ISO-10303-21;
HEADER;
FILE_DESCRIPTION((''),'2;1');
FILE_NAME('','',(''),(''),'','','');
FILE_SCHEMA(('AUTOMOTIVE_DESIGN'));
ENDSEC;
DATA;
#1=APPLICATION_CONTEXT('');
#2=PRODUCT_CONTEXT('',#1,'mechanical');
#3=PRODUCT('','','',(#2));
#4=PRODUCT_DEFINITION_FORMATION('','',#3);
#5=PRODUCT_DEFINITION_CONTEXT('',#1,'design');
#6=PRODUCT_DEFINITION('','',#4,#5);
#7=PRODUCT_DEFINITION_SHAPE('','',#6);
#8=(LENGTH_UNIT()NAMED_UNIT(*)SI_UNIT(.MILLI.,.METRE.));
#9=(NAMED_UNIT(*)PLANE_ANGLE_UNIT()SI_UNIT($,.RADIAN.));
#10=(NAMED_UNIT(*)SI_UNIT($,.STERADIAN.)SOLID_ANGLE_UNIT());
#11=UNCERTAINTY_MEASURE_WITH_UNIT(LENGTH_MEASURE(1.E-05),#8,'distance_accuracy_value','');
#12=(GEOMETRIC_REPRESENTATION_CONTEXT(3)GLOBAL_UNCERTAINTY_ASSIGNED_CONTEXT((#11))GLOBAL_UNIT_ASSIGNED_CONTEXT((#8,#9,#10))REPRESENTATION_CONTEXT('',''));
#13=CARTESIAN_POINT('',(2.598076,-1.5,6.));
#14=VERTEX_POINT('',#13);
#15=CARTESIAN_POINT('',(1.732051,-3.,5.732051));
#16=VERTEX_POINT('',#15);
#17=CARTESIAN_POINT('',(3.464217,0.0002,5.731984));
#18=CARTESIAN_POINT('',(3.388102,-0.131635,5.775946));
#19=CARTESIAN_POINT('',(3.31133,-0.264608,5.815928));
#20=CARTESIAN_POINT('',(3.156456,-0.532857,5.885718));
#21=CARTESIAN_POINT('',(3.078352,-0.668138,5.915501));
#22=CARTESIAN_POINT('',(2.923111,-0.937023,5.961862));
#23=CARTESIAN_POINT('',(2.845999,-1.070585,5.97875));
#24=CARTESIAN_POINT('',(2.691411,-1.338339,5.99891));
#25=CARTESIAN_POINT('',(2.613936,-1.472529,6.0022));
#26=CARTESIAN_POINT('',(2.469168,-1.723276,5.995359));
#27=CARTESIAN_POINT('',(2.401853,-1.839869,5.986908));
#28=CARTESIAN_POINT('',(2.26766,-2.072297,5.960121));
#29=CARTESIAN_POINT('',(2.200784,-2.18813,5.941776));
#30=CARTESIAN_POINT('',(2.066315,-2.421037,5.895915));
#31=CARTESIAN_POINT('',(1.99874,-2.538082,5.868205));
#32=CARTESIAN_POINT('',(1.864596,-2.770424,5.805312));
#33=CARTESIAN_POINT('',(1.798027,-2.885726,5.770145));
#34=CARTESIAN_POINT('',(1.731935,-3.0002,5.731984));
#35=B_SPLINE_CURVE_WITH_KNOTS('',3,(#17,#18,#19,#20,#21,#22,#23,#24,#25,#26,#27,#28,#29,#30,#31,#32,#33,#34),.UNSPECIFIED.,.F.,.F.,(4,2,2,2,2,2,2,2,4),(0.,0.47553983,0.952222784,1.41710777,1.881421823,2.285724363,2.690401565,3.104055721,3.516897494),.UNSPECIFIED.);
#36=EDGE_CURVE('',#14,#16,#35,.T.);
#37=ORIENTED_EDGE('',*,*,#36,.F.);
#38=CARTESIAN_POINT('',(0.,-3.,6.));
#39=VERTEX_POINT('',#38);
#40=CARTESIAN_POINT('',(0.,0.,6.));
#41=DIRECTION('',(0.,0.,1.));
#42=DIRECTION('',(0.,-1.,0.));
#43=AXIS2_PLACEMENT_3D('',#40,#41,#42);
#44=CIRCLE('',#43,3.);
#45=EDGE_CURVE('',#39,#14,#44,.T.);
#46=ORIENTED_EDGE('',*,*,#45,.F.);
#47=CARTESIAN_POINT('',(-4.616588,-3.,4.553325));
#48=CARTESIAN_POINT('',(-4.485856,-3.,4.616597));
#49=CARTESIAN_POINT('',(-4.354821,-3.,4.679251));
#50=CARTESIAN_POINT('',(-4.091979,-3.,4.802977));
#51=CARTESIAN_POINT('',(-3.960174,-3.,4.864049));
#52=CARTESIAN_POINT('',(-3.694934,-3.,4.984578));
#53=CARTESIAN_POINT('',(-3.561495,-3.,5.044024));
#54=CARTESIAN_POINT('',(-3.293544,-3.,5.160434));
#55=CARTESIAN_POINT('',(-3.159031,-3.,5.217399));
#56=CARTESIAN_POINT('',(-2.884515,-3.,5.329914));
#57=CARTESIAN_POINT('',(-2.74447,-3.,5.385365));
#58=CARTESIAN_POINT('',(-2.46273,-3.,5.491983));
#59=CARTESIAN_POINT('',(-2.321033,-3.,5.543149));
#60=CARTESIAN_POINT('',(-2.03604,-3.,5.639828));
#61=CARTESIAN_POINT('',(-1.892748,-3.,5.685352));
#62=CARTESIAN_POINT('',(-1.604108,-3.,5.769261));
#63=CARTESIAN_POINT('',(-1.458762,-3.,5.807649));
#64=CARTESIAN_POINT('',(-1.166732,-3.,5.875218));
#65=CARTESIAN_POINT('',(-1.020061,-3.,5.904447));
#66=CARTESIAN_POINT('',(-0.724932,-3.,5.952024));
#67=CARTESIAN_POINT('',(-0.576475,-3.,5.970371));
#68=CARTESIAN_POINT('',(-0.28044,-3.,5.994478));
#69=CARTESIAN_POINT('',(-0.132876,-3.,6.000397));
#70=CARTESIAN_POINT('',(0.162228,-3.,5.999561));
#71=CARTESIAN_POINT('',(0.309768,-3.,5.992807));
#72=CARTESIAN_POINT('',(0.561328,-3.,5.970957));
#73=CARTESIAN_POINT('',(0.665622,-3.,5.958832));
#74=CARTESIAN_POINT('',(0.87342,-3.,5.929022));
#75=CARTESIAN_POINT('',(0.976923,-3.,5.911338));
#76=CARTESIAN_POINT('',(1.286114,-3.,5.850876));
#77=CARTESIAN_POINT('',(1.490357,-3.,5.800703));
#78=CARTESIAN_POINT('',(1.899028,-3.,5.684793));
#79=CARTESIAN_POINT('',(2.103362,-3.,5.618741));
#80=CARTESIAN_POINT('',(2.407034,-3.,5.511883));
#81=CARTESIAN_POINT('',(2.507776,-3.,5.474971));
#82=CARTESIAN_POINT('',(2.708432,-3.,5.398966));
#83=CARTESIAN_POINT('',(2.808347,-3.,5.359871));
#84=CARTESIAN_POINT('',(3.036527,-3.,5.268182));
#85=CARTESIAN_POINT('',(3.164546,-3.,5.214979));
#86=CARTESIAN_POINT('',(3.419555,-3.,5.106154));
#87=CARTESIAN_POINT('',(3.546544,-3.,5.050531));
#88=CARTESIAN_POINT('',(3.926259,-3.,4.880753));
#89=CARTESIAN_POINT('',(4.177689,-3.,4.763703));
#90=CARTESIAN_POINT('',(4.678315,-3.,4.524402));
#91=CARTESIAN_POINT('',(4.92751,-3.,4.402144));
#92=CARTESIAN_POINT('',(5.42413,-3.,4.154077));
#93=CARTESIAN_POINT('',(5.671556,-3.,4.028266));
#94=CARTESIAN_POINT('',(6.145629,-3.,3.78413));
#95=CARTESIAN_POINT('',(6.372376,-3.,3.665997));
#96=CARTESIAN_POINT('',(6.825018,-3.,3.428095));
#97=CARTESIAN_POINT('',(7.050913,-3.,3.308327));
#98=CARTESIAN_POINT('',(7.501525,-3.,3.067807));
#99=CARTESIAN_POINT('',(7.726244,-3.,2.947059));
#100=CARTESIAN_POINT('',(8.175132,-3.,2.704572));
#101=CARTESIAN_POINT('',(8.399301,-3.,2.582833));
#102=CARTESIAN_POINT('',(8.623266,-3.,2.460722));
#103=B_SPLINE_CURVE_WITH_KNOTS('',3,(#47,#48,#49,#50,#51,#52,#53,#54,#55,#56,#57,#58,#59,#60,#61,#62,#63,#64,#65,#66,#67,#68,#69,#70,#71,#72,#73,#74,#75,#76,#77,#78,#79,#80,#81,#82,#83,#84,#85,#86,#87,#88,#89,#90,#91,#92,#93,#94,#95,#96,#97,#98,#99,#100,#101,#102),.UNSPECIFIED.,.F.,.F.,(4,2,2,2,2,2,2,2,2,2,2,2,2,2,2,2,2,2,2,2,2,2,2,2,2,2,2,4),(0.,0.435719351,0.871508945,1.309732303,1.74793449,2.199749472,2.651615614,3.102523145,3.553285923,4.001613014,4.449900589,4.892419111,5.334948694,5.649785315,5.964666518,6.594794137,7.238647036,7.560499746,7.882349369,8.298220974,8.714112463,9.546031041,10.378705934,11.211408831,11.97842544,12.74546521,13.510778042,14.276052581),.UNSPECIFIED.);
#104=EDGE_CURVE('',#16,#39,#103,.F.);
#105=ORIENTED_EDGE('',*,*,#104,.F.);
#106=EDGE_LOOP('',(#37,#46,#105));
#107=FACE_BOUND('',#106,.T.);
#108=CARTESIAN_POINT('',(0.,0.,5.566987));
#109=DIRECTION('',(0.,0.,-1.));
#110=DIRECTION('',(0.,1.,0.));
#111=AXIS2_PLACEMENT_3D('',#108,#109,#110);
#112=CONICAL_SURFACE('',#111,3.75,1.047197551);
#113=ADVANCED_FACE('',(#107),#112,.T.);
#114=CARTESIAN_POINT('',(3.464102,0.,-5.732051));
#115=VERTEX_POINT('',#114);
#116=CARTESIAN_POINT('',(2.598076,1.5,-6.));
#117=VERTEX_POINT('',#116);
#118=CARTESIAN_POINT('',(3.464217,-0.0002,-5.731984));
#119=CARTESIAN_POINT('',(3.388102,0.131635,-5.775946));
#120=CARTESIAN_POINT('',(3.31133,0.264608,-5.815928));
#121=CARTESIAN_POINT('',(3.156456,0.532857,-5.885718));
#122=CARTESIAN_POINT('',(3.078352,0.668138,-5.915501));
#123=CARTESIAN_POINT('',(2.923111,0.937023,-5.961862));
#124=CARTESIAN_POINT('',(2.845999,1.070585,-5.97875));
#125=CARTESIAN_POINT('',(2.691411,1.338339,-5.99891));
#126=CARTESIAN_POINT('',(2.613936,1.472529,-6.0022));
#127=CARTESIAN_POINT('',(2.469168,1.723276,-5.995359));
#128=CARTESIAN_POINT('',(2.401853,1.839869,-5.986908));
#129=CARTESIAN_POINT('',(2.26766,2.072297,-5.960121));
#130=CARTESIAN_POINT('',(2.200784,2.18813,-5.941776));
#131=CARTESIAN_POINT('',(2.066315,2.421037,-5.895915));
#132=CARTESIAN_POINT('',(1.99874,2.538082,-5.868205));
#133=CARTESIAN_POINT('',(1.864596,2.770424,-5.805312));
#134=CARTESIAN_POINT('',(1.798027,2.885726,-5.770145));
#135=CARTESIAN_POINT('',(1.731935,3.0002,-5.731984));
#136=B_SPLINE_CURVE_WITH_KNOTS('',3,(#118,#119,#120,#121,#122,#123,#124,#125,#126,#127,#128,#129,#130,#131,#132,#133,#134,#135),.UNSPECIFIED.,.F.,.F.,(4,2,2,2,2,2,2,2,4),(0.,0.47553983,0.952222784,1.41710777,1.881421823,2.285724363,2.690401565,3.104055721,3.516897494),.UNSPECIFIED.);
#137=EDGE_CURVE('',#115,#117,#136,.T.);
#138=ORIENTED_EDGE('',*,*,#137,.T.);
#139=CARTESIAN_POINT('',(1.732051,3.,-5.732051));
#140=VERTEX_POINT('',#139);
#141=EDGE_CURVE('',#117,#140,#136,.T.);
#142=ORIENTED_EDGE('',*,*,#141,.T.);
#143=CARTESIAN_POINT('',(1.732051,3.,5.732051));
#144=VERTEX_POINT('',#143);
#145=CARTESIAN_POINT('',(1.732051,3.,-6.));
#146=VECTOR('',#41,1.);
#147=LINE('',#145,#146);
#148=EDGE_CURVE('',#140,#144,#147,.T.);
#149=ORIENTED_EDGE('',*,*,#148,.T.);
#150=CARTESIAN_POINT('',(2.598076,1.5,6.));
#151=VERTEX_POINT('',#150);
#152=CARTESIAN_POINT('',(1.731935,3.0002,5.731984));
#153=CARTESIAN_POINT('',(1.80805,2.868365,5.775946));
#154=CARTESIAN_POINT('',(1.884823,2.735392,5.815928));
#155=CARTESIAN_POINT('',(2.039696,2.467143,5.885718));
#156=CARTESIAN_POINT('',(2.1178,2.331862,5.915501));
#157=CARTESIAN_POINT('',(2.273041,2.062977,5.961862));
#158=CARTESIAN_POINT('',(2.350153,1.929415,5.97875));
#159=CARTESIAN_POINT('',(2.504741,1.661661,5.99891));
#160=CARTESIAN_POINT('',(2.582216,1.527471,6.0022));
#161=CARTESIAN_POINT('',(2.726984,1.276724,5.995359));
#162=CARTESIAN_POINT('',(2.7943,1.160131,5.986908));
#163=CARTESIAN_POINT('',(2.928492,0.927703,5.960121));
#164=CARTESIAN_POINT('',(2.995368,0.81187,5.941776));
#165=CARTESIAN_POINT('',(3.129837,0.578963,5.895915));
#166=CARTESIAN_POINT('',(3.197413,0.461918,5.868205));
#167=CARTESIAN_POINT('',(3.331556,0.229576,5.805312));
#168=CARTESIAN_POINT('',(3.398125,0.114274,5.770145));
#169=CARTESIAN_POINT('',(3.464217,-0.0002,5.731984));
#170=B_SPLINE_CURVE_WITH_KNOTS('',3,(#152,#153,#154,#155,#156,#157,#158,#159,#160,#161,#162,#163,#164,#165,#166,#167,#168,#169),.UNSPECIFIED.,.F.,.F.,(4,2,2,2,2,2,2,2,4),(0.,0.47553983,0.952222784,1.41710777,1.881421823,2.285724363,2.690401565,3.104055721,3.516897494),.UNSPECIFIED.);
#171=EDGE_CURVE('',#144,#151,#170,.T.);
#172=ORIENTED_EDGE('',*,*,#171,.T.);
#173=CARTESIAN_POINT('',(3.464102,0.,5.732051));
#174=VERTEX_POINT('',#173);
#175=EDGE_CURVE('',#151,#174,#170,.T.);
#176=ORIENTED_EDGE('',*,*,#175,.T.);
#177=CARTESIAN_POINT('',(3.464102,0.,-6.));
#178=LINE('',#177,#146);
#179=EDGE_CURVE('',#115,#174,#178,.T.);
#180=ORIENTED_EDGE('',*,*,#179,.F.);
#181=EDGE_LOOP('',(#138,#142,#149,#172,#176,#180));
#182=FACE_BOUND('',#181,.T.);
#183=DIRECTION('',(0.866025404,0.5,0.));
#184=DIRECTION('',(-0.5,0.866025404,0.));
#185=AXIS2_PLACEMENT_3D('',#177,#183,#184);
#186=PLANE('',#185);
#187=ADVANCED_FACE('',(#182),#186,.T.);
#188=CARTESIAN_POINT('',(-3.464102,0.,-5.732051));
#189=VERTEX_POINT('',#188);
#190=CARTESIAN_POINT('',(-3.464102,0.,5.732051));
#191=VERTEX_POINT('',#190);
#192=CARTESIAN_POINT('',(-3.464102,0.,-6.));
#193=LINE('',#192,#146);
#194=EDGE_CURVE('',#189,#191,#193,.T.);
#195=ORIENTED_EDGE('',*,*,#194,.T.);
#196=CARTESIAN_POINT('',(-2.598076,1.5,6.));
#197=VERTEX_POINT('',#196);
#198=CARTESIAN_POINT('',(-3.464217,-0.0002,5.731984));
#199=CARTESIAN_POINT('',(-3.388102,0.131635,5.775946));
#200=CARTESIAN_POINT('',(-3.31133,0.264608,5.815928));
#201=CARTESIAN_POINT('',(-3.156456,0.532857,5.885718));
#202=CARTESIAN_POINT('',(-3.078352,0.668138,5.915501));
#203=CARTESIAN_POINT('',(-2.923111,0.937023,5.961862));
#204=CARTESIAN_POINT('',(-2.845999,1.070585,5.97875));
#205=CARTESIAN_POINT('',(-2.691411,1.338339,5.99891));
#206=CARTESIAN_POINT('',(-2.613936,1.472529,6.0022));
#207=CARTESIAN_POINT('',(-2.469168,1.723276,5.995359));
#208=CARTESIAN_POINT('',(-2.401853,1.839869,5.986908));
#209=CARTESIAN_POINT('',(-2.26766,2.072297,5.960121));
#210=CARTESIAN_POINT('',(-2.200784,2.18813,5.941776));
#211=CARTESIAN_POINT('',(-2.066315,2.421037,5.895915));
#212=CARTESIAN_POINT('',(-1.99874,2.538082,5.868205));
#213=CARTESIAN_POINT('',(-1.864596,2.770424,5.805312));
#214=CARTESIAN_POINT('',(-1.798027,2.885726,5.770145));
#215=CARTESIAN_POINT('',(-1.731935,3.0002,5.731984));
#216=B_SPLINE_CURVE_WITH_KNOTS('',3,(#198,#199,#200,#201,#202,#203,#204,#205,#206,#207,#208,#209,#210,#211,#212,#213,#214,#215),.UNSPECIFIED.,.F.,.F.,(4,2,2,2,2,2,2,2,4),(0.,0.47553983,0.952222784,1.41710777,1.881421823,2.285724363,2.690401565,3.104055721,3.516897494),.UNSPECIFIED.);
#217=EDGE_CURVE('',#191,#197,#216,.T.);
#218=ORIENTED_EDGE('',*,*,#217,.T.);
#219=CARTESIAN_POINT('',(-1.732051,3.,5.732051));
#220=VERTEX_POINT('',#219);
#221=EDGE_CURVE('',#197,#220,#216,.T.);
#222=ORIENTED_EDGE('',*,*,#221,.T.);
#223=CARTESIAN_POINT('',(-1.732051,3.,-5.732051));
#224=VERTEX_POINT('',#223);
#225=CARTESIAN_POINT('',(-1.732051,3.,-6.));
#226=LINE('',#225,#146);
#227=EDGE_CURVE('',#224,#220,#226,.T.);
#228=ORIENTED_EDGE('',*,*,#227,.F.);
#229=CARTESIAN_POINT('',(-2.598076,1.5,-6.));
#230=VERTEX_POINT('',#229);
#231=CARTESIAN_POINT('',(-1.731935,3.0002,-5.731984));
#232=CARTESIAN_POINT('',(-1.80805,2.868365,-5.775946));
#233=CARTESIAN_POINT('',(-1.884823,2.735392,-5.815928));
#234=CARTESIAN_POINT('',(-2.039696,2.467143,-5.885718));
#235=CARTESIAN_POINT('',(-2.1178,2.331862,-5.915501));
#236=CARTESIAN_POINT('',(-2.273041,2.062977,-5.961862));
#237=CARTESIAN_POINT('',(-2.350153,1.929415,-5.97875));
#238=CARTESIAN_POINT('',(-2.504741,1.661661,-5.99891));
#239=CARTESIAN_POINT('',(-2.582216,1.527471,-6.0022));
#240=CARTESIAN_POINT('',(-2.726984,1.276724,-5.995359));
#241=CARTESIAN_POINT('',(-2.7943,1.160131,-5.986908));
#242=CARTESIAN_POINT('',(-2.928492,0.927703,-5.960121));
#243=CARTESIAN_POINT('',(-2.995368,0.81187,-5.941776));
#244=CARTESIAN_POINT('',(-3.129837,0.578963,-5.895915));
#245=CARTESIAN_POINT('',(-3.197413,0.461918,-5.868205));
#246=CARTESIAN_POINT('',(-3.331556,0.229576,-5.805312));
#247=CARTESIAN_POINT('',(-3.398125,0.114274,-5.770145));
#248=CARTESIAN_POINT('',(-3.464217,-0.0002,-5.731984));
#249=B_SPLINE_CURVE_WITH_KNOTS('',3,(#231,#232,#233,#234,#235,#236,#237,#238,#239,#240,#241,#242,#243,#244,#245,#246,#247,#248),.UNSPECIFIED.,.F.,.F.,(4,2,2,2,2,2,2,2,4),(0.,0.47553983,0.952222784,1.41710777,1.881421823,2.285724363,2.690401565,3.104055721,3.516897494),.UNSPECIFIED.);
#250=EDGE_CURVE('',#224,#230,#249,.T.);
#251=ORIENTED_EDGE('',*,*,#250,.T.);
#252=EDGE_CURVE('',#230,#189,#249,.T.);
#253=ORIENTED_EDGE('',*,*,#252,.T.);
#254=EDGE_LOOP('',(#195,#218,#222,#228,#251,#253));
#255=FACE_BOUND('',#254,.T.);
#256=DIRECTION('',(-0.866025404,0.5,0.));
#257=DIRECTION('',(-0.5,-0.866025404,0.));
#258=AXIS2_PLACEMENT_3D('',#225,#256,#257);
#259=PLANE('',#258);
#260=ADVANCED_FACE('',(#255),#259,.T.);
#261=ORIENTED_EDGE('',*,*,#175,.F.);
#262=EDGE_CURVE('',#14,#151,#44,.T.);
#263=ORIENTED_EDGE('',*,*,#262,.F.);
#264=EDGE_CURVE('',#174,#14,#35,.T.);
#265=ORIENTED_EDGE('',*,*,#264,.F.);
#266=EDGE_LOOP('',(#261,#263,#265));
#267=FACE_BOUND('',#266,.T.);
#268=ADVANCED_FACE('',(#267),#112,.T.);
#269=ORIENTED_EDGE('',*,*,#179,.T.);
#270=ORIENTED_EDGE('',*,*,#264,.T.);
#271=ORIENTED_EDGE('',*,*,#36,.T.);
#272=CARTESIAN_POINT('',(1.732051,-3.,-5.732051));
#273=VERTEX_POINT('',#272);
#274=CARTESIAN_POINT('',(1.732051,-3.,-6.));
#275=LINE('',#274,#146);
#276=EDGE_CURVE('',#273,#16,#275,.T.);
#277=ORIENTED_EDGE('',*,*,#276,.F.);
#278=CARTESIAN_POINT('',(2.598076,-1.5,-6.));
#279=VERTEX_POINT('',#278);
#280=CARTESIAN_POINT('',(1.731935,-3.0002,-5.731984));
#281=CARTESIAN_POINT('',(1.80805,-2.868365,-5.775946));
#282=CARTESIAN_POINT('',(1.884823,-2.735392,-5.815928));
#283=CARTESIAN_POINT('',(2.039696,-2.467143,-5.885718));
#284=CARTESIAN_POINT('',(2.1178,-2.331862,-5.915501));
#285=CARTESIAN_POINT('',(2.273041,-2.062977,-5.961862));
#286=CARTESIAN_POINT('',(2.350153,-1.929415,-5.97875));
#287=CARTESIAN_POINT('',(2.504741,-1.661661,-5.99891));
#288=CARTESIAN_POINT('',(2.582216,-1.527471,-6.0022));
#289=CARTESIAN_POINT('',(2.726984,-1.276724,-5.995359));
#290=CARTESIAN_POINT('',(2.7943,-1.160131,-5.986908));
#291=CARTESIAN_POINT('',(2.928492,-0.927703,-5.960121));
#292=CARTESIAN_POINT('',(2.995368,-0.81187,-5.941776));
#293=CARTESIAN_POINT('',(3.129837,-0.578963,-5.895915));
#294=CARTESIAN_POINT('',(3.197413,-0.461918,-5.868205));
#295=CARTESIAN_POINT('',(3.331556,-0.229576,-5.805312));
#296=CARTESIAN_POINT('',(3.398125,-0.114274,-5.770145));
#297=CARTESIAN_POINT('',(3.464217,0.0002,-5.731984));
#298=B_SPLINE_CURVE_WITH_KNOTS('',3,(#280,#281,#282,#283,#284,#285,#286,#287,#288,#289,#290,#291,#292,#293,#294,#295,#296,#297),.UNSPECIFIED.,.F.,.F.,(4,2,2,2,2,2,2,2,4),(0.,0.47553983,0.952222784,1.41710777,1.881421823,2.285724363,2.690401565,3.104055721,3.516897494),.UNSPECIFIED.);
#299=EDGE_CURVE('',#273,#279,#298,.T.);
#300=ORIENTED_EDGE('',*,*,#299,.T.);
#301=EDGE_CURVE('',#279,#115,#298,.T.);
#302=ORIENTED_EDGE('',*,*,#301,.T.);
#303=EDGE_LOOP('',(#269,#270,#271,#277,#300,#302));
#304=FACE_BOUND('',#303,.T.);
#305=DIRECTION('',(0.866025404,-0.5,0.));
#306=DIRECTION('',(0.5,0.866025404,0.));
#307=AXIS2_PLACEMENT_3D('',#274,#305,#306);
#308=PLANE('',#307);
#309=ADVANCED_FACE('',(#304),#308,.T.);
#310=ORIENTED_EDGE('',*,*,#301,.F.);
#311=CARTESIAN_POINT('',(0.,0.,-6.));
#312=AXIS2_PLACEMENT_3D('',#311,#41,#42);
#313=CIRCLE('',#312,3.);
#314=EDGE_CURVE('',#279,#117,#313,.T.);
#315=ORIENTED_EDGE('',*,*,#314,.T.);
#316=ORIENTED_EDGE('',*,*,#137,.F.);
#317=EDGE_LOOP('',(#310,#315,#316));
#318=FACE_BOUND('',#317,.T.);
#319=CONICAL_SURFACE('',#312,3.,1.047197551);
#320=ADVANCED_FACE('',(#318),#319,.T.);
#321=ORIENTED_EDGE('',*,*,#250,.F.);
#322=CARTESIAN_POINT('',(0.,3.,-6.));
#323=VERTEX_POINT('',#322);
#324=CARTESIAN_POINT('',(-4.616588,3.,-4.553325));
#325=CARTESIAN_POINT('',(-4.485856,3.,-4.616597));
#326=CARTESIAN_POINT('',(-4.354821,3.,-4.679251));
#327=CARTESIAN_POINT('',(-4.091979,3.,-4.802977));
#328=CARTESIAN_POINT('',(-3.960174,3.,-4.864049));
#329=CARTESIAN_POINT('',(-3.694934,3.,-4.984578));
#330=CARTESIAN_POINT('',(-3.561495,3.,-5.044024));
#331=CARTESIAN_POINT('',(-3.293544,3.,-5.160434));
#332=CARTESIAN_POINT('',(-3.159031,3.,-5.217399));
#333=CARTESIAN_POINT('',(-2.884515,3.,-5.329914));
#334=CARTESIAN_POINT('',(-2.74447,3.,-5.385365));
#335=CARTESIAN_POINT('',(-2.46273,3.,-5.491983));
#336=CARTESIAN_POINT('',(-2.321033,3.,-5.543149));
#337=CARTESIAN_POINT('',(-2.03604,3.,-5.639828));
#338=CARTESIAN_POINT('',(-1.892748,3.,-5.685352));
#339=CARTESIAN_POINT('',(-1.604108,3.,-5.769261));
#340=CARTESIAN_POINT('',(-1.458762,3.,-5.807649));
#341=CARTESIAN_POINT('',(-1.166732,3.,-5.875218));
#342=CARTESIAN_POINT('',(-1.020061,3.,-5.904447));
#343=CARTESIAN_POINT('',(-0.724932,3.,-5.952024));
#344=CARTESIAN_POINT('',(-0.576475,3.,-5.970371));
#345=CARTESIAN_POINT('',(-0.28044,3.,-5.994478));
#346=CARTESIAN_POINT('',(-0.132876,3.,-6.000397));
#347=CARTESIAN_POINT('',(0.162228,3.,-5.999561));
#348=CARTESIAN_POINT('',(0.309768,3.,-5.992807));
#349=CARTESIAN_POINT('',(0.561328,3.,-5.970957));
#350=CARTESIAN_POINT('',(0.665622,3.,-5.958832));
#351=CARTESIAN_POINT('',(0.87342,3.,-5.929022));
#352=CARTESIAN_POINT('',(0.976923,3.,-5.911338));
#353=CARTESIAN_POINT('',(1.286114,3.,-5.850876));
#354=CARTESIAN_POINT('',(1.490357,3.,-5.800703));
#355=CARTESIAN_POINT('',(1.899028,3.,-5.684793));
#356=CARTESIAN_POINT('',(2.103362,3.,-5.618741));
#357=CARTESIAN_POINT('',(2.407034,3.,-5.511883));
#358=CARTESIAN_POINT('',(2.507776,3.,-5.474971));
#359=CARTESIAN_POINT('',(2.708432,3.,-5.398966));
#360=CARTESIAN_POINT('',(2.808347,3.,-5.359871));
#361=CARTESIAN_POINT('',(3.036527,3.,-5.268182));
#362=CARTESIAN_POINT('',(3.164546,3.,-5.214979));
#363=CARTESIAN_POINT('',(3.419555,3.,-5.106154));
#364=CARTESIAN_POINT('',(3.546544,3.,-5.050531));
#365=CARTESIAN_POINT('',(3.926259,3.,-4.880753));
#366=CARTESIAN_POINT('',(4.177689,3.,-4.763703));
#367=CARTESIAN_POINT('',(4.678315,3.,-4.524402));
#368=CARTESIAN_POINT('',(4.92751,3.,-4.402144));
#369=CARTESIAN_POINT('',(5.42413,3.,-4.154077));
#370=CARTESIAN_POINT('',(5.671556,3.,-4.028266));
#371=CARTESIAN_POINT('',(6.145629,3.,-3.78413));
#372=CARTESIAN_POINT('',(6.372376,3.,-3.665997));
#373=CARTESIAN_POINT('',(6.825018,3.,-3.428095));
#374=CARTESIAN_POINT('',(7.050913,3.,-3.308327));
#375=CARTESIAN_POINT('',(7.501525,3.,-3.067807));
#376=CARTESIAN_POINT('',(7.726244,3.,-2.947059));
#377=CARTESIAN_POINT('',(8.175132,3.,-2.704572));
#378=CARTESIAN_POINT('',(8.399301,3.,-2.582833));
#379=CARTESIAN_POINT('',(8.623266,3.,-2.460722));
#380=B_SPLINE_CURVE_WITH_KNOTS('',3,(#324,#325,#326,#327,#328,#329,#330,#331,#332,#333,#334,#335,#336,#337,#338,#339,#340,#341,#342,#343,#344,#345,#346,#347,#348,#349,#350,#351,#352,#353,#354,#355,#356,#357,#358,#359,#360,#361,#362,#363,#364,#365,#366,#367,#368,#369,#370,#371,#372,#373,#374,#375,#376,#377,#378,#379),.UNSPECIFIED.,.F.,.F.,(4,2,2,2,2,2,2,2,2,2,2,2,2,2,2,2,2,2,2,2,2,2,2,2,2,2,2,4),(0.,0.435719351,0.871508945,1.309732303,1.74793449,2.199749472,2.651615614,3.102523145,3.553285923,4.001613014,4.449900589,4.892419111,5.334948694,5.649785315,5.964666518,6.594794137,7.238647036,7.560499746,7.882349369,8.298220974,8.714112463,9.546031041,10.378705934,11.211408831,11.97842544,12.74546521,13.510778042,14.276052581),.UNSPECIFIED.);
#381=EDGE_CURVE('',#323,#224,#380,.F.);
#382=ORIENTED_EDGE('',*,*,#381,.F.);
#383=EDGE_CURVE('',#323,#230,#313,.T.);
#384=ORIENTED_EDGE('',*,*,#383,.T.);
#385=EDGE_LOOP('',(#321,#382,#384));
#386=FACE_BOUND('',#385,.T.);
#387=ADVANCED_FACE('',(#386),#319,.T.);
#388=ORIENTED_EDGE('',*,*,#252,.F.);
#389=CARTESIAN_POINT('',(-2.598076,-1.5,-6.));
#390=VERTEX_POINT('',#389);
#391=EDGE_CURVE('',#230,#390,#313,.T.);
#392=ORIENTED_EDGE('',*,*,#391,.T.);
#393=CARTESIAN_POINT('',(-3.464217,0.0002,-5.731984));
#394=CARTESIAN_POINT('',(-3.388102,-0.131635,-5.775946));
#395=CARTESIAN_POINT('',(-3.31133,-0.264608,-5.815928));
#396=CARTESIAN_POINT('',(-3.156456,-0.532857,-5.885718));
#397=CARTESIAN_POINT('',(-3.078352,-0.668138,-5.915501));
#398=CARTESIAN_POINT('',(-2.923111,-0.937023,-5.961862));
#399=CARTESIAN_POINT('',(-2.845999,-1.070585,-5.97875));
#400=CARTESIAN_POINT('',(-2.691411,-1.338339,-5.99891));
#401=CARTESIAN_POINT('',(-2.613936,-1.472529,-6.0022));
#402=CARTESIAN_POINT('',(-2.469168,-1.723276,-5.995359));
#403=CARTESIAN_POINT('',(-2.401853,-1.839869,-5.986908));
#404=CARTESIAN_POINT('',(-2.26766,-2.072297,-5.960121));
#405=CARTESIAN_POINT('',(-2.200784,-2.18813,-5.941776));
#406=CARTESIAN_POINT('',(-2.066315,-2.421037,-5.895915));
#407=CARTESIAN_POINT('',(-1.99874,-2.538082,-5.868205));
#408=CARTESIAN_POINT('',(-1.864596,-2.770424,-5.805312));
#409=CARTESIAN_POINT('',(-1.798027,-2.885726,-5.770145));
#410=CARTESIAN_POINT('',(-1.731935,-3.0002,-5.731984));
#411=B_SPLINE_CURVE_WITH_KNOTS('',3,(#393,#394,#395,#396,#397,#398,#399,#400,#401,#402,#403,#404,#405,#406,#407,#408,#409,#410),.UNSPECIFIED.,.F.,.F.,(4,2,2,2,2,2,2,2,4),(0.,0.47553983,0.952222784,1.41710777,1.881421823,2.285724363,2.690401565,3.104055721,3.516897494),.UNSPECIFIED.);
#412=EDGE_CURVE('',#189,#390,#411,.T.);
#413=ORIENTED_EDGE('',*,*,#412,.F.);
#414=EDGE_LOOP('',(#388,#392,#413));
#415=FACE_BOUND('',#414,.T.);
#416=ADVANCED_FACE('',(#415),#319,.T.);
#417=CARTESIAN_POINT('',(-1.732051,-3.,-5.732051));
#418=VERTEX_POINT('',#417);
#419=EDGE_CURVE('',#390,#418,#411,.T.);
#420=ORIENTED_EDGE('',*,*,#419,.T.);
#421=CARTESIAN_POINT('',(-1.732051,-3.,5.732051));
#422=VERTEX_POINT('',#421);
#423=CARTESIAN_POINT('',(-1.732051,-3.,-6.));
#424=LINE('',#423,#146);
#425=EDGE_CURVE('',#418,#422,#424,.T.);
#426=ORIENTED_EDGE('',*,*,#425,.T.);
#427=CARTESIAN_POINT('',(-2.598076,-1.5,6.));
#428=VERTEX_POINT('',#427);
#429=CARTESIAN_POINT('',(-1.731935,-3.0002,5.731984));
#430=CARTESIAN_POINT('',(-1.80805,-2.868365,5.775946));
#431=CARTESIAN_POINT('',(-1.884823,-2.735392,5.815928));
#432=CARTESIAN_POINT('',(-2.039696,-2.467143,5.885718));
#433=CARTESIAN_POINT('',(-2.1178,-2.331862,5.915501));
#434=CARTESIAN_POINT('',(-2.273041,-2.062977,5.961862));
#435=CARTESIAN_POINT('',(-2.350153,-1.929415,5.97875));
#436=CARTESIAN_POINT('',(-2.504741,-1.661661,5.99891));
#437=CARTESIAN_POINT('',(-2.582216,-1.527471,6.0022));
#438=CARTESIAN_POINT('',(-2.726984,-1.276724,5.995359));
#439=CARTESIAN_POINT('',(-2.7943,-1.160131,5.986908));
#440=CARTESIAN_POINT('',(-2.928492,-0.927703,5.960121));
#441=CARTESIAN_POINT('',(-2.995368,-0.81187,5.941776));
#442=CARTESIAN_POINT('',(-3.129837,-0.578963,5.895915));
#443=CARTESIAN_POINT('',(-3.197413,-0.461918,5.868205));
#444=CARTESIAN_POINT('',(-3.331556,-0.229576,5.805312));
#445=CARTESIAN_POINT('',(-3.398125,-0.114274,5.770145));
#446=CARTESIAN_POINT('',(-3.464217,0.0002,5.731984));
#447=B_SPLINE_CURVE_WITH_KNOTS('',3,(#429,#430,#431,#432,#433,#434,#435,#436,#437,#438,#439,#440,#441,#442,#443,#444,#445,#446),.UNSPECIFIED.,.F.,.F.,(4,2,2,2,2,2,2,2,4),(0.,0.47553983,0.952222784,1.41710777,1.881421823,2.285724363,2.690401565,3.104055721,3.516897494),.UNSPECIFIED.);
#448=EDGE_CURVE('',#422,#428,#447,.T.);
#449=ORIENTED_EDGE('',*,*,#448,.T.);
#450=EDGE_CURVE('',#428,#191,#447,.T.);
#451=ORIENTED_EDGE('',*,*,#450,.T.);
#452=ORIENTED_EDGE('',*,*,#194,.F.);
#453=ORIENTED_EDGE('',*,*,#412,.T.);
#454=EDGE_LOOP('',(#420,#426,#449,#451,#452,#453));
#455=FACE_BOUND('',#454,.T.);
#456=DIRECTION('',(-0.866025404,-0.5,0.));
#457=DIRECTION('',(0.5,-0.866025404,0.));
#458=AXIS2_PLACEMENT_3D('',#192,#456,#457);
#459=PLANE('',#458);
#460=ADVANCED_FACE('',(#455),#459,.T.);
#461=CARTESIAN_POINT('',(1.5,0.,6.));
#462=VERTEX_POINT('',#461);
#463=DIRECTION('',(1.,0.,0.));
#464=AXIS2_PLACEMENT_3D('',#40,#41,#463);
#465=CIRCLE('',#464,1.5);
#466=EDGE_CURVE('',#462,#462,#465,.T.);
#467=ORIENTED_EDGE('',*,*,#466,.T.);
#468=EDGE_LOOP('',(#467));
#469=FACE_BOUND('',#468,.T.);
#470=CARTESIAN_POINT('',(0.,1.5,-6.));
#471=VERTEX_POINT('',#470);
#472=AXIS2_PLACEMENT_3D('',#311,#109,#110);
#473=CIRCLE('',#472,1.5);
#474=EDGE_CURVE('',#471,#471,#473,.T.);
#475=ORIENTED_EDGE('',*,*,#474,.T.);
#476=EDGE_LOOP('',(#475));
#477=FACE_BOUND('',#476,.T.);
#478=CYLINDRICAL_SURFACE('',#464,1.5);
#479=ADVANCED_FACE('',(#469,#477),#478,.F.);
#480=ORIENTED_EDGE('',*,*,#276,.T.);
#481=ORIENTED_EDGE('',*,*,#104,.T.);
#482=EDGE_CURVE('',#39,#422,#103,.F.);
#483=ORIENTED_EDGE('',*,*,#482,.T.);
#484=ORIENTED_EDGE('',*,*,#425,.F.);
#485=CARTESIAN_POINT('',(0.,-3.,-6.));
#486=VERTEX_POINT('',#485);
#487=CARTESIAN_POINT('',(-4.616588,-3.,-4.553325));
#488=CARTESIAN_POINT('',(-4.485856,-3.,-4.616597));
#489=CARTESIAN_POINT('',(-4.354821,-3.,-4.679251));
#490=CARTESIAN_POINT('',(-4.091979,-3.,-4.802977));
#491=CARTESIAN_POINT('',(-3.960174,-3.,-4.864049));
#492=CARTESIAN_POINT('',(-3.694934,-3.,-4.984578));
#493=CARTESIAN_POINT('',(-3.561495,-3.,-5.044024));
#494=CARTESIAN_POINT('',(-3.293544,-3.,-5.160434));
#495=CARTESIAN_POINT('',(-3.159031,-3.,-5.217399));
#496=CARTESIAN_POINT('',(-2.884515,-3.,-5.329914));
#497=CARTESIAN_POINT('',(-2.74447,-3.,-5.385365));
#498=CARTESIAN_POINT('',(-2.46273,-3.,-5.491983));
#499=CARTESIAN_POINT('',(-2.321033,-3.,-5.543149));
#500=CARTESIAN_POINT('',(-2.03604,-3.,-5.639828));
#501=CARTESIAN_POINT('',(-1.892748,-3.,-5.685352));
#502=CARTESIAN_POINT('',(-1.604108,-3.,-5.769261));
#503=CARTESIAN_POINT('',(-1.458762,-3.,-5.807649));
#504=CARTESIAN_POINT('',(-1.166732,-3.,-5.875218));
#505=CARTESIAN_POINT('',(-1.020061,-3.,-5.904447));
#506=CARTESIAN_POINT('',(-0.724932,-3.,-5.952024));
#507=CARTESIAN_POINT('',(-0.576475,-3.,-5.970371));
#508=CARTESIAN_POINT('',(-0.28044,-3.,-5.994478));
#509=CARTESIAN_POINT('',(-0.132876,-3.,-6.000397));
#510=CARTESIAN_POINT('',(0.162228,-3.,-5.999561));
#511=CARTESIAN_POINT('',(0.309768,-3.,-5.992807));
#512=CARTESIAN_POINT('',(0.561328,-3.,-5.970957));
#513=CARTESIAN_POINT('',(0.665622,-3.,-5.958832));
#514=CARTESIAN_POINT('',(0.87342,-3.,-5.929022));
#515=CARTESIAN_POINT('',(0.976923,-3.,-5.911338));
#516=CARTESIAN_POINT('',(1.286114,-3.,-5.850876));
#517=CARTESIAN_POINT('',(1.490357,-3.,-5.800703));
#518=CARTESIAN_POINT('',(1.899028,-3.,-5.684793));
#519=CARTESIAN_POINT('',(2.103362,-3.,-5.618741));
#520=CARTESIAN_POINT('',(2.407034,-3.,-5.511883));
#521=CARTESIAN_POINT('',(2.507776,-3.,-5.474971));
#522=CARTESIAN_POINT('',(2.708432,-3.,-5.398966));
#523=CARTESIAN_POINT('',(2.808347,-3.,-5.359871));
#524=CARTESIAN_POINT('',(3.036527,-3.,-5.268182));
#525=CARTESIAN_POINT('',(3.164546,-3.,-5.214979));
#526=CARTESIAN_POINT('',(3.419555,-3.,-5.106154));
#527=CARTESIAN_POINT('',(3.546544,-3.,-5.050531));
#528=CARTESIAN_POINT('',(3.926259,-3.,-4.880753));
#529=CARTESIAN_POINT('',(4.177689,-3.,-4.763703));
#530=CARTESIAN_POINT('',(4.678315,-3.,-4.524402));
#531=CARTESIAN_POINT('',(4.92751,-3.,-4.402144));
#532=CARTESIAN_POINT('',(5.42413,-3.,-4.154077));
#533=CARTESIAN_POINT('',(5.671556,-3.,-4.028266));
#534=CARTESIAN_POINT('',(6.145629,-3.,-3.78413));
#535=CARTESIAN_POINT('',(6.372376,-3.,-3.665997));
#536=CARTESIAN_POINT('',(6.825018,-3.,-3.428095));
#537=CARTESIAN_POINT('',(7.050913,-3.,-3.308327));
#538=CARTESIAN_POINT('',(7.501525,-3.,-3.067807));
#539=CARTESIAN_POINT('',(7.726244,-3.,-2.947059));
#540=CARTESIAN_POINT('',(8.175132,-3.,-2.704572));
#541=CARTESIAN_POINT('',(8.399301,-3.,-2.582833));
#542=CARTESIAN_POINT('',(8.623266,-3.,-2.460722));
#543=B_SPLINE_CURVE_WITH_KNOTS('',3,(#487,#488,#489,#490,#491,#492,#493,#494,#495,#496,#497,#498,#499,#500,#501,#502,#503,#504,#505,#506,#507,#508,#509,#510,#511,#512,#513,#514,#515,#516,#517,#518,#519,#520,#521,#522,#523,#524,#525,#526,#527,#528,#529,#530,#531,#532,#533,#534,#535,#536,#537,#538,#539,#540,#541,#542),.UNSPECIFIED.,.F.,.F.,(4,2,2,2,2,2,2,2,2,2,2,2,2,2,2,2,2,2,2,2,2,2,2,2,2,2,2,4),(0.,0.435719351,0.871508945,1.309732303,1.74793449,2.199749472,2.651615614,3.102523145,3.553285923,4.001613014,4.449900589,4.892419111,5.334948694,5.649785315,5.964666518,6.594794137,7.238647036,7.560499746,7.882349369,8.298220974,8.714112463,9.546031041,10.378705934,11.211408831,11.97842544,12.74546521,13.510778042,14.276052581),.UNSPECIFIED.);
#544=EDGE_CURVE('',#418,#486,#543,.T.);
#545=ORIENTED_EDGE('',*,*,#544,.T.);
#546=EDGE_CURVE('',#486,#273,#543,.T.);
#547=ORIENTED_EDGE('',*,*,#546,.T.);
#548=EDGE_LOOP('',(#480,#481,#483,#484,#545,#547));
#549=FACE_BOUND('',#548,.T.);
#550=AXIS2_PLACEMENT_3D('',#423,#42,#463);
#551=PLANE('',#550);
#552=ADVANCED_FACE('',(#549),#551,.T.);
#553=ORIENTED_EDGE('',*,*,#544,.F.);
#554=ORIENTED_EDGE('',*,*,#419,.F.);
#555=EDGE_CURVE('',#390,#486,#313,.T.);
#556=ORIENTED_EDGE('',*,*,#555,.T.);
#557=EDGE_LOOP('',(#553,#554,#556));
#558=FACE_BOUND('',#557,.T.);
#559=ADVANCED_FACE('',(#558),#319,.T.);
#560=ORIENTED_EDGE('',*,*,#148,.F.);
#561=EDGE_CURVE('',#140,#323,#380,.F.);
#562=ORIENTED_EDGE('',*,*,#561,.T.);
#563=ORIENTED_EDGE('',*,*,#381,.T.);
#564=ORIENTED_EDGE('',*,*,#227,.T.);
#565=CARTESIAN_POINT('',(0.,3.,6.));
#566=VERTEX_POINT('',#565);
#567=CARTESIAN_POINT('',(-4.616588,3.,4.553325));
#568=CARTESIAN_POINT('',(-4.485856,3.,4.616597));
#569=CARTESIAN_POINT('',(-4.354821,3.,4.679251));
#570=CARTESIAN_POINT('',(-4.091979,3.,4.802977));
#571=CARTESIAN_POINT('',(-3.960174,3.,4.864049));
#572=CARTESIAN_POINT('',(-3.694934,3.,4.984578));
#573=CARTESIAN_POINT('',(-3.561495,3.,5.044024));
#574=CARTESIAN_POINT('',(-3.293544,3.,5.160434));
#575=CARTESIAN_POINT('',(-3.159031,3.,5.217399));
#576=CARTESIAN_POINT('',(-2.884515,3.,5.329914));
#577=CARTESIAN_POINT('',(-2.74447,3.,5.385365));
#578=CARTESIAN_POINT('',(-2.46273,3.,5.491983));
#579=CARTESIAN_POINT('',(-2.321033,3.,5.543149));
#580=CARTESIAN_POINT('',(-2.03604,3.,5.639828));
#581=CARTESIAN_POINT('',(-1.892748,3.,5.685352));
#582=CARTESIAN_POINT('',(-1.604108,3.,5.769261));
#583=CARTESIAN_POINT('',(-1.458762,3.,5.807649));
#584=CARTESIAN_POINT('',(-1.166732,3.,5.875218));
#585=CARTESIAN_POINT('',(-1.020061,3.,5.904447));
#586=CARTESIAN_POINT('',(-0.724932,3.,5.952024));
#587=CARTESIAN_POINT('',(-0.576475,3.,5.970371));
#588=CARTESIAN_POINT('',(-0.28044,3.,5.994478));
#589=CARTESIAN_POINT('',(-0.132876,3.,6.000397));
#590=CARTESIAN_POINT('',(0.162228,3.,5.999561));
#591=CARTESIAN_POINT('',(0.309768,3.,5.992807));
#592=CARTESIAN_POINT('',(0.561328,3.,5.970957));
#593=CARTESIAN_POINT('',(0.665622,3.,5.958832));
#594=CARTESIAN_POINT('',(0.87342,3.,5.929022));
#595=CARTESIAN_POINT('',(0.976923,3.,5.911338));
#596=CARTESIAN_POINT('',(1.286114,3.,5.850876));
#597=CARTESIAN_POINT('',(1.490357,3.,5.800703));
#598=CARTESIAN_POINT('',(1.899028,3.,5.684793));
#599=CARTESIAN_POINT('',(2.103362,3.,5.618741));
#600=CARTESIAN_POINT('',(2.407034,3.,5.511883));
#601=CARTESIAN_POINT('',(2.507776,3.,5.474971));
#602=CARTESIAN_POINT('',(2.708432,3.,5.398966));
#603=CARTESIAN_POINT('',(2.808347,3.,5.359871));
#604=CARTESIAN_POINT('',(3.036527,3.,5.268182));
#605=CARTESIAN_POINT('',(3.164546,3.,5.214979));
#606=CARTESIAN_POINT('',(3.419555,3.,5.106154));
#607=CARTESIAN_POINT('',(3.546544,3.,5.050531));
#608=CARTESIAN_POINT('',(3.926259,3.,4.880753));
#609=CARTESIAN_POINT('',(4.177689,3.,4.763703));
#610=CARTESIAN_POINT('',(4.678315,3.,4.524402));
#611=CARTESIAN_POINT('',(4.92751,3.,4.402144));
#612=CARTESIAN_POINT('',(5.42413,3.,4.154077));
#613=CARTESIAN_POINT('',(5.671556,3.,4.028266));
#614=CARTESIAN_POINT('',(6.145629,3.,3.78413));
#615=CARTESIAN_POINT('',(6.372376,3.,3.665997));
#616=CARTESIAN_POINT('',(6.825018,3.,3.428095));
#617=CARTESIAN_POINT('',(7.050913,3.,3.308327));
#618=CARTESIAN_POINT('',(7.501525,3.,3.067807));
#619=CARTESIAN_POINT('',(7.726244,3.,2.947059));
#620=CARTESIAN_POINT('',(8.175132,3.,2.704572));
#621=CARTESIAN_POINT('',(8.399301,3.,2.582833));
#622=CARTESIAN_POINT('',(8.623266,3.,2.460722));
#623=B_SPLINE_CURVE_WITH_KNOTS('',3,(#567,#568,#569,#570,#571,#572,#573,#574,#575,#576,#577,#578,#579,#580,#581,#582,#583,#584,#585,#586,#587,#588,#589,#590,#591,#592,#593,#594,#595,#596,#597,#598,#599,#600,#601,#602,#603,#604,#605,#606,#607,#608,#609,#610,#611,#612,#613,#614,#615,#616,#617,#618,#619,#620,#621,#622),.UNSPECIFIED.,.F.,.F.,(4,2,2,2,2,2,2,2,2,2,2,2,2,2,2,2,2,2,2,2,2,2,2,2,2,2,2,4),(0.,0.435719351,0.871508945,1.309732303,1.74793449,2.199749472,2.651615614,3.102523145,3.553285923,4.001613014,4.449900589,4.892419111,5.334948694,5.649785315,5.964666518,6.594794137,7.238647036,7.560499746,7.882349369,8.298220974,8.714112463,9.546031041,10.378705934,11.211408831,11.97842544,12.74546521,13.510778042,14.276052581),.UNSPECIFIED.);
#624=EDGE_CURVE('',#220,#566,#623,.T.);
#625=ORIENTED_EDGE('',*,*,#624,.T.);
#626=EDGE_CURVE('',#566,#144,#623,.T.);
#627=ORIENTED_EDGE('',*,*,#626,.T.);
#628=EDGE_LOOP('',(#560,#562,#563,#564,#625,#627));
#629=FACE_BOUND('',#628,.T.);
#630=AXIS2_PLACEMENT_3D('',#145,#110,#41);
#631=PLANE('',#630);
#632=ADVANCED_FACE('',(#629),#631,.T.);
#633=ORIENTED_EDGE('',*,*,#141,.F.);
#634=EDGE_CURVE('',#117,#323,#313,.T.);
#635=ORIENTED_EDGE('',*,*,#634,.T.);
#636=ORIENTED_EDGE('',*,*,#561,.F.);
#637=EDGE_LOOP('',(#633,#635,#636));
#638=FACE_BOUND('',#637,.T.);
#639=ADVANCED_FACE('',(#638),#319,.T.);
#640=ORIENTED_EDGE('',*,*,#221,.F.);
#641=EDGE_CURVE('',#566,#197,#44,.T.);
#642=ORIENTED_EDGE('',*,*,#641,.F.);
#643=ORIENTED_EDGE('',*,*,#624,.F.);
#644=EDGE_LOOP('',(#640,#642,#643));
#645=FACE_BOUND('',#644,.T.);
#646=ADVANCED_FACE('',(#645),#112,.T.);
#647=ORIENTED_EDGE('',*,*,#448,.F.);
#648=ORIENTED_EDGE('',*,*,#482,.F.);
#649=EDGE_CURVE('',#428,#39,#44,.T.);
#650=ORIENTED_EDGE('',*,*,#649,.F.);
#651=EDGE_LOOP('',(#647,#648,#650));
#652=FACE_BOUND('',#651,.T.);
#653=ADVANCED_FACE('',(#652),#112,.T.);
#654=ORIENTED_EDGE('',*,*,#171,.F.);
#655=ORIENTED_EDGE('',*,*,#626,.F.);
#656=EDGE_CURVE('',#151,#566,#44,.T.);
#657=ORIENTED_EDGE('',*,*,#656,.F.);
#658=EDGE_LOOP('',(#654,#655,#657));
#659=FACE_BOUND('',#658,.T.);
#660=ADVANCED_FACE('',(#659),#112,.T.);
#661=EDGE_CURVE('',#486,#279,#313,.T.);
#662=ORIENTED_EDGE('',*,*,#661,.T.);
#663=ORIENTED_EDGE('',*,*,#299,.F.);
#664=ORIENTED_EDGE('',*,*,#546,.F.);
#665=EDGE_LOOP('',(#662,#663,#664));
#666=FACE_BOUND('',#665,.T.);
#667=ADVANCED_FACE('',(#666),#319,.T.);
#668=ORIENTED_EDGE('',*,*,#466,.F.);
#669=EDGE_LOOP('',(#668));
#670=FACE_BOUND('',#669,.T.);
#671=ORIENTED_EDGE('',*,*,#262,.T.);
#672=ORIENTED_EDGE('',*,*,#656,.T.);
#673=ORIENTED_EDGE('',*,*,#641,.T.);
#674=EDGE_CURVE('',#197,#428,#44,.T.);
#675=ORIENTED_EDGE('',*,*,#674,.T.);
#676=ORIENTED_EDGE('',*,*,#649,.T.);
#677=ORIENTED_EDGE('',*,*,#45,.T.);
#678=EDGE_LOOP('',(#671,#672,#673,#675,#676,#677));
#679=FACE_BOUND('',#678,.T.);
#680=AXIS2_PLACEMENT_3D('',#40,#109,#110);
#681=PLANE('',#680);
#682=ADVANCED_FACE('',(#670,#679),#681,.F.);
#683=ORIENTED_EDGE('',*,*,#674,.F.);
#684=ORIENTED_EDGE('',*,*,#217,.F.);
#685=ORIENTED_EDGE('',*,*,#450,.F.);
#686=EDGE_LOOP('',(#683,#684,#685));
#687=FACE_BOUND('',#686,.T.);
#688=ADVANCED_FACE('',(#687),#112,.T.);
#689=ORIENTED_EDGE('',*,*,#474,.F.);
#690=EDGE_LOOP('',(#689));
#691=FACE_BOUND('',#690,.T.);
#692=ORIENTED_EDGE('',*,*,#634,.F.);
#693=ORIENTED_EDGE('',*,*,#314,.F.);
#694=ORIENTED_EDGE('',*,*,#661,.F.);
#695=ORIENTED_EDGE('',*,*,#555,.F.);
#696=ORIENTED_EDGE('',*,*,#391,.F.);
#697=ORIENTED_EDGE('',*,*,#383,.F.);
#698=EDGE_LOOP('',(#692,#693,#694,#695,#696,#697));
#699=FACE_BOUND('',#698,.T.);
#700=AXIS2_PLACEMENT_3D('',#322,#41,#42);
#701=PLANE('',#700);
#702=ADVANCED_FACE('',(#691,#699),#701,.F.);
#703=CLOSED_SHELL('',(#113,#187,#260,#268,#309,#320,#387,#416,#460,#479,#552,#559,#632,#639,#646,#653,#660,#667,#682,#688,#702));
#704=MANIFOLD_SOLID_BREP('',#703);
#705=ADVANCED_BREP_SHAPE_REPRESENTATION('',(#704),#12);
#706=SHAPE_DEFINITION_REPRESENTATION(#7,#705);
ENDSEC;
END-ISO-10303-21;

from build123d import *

# Parameters (mm, degrees)
SKETCH2_OUTSIDE_W               = 12.704
SKETCH2_OUTSIDE_H               = 12.704
CUT_EXTRUDE1_DEPTH              = 14.119641763
M3X0_5_TAPPED_HOLE1_D           = 2.5
M3X0_5_TAPPED_HOLE1_DEPTH       = 11
M3X0_5_TAPPED_HOLE1_CBORE_D     = 3
M3X0_5_TAPPED_HOLE1_CBORE_DEPTH = 10
M3X0_5_TAPPED_HOLE1_TIP         = 0.751075774
M3X0_5_TAPPED_HOLE2_D           = 2.5
M3X0_5_TAPPED_HOLE2_DEPTH       = 7.3
M3X0_5_TAPPED_HOLE2_CBORE_D     = 3
M3X0_5_TAPPED_HOLE2_CBORE_DEPTH = 6.3
M3X0_5_TAPPED_HOLE2_TIP         = 0.751075774


with BuildPart() as part:
    # Sketch1 → Revolve1 (revolve)
    with BuildSketch(Plane(origin=(0, 0, 0), x_dir=(0, 0, -1), z_dir=(1, 0, 0))):
        Polygon((-6, 0), (-6, 3), (-5.566987298, 3.75), (5.566987298, 3.75), (6, 3), (6, 0), align=None)
    revolve(axis=Axis((0, 0, 5.584882278), (0, 0, -1)))

    # Sketch2 outside → Cut-Extrude1 (cut, through all)
    with BuildSketch(Plane.XY.offset(6)):
        Rectangle(SKETCH2_OUTSIDE_W, SKETCH2_OUTSIDE_H)
        Polygon((1.732050808, -3), (3.464101615, 0), (1.732050808, 3), (-1.732050808, 3), (-3.464101615, 0), (-1.732050808, -3), align=None, mode=Mode.SUBTRACT)
    extrude(amount=-CUT_EXTRUDE1_DEPTH, mode=Mode.SUBTRACT)

    # M3x0.5 Tapped Hole1
    with Locations(Plane.XY.offset(6)):
        with Locations((0, 0)):
            CounterBoreHole(M3X0_5_TAPPED_HOLE1_D / 2, M3X0_5_TAPPED_HOLE1_CBORE_D / 2, M3X0_5_TAPPED_HOLE1_CBORE_DEPTH, depth=M3X0_5_TAPPED_HOLE1_DEPTH)
            with Locations((0, 0, -(M3X0_5_TAPPED_HOLE1_DEPTH + M3X0_5_TAPPED_HOLE1_TIP / 2))):  # 118° drill point
                Cone(0, M3X0_5_TAPPED_HOLE1_D / 2, M3X0_5_TAPPED_HOLE1_TIP, mode=Mode.SUBTRACT)

    # M3x0.5 Tapped Hole2
    with Locations(Plane(origin=(0, 0, -6), x_dir=(-1, 0, 0), z_dir=(0, 0, -1))):
        with Locations((0, 0)):
            CounterBoreHole(M3X0_5_TAPPED_HOLE2_D / 2, M3X0_5_TAPPED_HOLE2_CBORE_D / 2, M3X0_5_TAPPED_HOLE2_CBORE_DEPTH, depth=M3X0_5_TAPPED_HOLE2_DEPTH)
            with Locations((0, 0, -(M3X0_5_TAPPED_HOLE2_DEPTH + M3X0_5_TAPPED_HOLE2_TIP / 2))):  # 118° drill point
                Cone(0, M3X0_5_TAPPED_HOLE2_D / 2, M3X0_5_TAPPED_HOLE2_TIP, mode=Mode.SUBTRACT)


solid = part.part
